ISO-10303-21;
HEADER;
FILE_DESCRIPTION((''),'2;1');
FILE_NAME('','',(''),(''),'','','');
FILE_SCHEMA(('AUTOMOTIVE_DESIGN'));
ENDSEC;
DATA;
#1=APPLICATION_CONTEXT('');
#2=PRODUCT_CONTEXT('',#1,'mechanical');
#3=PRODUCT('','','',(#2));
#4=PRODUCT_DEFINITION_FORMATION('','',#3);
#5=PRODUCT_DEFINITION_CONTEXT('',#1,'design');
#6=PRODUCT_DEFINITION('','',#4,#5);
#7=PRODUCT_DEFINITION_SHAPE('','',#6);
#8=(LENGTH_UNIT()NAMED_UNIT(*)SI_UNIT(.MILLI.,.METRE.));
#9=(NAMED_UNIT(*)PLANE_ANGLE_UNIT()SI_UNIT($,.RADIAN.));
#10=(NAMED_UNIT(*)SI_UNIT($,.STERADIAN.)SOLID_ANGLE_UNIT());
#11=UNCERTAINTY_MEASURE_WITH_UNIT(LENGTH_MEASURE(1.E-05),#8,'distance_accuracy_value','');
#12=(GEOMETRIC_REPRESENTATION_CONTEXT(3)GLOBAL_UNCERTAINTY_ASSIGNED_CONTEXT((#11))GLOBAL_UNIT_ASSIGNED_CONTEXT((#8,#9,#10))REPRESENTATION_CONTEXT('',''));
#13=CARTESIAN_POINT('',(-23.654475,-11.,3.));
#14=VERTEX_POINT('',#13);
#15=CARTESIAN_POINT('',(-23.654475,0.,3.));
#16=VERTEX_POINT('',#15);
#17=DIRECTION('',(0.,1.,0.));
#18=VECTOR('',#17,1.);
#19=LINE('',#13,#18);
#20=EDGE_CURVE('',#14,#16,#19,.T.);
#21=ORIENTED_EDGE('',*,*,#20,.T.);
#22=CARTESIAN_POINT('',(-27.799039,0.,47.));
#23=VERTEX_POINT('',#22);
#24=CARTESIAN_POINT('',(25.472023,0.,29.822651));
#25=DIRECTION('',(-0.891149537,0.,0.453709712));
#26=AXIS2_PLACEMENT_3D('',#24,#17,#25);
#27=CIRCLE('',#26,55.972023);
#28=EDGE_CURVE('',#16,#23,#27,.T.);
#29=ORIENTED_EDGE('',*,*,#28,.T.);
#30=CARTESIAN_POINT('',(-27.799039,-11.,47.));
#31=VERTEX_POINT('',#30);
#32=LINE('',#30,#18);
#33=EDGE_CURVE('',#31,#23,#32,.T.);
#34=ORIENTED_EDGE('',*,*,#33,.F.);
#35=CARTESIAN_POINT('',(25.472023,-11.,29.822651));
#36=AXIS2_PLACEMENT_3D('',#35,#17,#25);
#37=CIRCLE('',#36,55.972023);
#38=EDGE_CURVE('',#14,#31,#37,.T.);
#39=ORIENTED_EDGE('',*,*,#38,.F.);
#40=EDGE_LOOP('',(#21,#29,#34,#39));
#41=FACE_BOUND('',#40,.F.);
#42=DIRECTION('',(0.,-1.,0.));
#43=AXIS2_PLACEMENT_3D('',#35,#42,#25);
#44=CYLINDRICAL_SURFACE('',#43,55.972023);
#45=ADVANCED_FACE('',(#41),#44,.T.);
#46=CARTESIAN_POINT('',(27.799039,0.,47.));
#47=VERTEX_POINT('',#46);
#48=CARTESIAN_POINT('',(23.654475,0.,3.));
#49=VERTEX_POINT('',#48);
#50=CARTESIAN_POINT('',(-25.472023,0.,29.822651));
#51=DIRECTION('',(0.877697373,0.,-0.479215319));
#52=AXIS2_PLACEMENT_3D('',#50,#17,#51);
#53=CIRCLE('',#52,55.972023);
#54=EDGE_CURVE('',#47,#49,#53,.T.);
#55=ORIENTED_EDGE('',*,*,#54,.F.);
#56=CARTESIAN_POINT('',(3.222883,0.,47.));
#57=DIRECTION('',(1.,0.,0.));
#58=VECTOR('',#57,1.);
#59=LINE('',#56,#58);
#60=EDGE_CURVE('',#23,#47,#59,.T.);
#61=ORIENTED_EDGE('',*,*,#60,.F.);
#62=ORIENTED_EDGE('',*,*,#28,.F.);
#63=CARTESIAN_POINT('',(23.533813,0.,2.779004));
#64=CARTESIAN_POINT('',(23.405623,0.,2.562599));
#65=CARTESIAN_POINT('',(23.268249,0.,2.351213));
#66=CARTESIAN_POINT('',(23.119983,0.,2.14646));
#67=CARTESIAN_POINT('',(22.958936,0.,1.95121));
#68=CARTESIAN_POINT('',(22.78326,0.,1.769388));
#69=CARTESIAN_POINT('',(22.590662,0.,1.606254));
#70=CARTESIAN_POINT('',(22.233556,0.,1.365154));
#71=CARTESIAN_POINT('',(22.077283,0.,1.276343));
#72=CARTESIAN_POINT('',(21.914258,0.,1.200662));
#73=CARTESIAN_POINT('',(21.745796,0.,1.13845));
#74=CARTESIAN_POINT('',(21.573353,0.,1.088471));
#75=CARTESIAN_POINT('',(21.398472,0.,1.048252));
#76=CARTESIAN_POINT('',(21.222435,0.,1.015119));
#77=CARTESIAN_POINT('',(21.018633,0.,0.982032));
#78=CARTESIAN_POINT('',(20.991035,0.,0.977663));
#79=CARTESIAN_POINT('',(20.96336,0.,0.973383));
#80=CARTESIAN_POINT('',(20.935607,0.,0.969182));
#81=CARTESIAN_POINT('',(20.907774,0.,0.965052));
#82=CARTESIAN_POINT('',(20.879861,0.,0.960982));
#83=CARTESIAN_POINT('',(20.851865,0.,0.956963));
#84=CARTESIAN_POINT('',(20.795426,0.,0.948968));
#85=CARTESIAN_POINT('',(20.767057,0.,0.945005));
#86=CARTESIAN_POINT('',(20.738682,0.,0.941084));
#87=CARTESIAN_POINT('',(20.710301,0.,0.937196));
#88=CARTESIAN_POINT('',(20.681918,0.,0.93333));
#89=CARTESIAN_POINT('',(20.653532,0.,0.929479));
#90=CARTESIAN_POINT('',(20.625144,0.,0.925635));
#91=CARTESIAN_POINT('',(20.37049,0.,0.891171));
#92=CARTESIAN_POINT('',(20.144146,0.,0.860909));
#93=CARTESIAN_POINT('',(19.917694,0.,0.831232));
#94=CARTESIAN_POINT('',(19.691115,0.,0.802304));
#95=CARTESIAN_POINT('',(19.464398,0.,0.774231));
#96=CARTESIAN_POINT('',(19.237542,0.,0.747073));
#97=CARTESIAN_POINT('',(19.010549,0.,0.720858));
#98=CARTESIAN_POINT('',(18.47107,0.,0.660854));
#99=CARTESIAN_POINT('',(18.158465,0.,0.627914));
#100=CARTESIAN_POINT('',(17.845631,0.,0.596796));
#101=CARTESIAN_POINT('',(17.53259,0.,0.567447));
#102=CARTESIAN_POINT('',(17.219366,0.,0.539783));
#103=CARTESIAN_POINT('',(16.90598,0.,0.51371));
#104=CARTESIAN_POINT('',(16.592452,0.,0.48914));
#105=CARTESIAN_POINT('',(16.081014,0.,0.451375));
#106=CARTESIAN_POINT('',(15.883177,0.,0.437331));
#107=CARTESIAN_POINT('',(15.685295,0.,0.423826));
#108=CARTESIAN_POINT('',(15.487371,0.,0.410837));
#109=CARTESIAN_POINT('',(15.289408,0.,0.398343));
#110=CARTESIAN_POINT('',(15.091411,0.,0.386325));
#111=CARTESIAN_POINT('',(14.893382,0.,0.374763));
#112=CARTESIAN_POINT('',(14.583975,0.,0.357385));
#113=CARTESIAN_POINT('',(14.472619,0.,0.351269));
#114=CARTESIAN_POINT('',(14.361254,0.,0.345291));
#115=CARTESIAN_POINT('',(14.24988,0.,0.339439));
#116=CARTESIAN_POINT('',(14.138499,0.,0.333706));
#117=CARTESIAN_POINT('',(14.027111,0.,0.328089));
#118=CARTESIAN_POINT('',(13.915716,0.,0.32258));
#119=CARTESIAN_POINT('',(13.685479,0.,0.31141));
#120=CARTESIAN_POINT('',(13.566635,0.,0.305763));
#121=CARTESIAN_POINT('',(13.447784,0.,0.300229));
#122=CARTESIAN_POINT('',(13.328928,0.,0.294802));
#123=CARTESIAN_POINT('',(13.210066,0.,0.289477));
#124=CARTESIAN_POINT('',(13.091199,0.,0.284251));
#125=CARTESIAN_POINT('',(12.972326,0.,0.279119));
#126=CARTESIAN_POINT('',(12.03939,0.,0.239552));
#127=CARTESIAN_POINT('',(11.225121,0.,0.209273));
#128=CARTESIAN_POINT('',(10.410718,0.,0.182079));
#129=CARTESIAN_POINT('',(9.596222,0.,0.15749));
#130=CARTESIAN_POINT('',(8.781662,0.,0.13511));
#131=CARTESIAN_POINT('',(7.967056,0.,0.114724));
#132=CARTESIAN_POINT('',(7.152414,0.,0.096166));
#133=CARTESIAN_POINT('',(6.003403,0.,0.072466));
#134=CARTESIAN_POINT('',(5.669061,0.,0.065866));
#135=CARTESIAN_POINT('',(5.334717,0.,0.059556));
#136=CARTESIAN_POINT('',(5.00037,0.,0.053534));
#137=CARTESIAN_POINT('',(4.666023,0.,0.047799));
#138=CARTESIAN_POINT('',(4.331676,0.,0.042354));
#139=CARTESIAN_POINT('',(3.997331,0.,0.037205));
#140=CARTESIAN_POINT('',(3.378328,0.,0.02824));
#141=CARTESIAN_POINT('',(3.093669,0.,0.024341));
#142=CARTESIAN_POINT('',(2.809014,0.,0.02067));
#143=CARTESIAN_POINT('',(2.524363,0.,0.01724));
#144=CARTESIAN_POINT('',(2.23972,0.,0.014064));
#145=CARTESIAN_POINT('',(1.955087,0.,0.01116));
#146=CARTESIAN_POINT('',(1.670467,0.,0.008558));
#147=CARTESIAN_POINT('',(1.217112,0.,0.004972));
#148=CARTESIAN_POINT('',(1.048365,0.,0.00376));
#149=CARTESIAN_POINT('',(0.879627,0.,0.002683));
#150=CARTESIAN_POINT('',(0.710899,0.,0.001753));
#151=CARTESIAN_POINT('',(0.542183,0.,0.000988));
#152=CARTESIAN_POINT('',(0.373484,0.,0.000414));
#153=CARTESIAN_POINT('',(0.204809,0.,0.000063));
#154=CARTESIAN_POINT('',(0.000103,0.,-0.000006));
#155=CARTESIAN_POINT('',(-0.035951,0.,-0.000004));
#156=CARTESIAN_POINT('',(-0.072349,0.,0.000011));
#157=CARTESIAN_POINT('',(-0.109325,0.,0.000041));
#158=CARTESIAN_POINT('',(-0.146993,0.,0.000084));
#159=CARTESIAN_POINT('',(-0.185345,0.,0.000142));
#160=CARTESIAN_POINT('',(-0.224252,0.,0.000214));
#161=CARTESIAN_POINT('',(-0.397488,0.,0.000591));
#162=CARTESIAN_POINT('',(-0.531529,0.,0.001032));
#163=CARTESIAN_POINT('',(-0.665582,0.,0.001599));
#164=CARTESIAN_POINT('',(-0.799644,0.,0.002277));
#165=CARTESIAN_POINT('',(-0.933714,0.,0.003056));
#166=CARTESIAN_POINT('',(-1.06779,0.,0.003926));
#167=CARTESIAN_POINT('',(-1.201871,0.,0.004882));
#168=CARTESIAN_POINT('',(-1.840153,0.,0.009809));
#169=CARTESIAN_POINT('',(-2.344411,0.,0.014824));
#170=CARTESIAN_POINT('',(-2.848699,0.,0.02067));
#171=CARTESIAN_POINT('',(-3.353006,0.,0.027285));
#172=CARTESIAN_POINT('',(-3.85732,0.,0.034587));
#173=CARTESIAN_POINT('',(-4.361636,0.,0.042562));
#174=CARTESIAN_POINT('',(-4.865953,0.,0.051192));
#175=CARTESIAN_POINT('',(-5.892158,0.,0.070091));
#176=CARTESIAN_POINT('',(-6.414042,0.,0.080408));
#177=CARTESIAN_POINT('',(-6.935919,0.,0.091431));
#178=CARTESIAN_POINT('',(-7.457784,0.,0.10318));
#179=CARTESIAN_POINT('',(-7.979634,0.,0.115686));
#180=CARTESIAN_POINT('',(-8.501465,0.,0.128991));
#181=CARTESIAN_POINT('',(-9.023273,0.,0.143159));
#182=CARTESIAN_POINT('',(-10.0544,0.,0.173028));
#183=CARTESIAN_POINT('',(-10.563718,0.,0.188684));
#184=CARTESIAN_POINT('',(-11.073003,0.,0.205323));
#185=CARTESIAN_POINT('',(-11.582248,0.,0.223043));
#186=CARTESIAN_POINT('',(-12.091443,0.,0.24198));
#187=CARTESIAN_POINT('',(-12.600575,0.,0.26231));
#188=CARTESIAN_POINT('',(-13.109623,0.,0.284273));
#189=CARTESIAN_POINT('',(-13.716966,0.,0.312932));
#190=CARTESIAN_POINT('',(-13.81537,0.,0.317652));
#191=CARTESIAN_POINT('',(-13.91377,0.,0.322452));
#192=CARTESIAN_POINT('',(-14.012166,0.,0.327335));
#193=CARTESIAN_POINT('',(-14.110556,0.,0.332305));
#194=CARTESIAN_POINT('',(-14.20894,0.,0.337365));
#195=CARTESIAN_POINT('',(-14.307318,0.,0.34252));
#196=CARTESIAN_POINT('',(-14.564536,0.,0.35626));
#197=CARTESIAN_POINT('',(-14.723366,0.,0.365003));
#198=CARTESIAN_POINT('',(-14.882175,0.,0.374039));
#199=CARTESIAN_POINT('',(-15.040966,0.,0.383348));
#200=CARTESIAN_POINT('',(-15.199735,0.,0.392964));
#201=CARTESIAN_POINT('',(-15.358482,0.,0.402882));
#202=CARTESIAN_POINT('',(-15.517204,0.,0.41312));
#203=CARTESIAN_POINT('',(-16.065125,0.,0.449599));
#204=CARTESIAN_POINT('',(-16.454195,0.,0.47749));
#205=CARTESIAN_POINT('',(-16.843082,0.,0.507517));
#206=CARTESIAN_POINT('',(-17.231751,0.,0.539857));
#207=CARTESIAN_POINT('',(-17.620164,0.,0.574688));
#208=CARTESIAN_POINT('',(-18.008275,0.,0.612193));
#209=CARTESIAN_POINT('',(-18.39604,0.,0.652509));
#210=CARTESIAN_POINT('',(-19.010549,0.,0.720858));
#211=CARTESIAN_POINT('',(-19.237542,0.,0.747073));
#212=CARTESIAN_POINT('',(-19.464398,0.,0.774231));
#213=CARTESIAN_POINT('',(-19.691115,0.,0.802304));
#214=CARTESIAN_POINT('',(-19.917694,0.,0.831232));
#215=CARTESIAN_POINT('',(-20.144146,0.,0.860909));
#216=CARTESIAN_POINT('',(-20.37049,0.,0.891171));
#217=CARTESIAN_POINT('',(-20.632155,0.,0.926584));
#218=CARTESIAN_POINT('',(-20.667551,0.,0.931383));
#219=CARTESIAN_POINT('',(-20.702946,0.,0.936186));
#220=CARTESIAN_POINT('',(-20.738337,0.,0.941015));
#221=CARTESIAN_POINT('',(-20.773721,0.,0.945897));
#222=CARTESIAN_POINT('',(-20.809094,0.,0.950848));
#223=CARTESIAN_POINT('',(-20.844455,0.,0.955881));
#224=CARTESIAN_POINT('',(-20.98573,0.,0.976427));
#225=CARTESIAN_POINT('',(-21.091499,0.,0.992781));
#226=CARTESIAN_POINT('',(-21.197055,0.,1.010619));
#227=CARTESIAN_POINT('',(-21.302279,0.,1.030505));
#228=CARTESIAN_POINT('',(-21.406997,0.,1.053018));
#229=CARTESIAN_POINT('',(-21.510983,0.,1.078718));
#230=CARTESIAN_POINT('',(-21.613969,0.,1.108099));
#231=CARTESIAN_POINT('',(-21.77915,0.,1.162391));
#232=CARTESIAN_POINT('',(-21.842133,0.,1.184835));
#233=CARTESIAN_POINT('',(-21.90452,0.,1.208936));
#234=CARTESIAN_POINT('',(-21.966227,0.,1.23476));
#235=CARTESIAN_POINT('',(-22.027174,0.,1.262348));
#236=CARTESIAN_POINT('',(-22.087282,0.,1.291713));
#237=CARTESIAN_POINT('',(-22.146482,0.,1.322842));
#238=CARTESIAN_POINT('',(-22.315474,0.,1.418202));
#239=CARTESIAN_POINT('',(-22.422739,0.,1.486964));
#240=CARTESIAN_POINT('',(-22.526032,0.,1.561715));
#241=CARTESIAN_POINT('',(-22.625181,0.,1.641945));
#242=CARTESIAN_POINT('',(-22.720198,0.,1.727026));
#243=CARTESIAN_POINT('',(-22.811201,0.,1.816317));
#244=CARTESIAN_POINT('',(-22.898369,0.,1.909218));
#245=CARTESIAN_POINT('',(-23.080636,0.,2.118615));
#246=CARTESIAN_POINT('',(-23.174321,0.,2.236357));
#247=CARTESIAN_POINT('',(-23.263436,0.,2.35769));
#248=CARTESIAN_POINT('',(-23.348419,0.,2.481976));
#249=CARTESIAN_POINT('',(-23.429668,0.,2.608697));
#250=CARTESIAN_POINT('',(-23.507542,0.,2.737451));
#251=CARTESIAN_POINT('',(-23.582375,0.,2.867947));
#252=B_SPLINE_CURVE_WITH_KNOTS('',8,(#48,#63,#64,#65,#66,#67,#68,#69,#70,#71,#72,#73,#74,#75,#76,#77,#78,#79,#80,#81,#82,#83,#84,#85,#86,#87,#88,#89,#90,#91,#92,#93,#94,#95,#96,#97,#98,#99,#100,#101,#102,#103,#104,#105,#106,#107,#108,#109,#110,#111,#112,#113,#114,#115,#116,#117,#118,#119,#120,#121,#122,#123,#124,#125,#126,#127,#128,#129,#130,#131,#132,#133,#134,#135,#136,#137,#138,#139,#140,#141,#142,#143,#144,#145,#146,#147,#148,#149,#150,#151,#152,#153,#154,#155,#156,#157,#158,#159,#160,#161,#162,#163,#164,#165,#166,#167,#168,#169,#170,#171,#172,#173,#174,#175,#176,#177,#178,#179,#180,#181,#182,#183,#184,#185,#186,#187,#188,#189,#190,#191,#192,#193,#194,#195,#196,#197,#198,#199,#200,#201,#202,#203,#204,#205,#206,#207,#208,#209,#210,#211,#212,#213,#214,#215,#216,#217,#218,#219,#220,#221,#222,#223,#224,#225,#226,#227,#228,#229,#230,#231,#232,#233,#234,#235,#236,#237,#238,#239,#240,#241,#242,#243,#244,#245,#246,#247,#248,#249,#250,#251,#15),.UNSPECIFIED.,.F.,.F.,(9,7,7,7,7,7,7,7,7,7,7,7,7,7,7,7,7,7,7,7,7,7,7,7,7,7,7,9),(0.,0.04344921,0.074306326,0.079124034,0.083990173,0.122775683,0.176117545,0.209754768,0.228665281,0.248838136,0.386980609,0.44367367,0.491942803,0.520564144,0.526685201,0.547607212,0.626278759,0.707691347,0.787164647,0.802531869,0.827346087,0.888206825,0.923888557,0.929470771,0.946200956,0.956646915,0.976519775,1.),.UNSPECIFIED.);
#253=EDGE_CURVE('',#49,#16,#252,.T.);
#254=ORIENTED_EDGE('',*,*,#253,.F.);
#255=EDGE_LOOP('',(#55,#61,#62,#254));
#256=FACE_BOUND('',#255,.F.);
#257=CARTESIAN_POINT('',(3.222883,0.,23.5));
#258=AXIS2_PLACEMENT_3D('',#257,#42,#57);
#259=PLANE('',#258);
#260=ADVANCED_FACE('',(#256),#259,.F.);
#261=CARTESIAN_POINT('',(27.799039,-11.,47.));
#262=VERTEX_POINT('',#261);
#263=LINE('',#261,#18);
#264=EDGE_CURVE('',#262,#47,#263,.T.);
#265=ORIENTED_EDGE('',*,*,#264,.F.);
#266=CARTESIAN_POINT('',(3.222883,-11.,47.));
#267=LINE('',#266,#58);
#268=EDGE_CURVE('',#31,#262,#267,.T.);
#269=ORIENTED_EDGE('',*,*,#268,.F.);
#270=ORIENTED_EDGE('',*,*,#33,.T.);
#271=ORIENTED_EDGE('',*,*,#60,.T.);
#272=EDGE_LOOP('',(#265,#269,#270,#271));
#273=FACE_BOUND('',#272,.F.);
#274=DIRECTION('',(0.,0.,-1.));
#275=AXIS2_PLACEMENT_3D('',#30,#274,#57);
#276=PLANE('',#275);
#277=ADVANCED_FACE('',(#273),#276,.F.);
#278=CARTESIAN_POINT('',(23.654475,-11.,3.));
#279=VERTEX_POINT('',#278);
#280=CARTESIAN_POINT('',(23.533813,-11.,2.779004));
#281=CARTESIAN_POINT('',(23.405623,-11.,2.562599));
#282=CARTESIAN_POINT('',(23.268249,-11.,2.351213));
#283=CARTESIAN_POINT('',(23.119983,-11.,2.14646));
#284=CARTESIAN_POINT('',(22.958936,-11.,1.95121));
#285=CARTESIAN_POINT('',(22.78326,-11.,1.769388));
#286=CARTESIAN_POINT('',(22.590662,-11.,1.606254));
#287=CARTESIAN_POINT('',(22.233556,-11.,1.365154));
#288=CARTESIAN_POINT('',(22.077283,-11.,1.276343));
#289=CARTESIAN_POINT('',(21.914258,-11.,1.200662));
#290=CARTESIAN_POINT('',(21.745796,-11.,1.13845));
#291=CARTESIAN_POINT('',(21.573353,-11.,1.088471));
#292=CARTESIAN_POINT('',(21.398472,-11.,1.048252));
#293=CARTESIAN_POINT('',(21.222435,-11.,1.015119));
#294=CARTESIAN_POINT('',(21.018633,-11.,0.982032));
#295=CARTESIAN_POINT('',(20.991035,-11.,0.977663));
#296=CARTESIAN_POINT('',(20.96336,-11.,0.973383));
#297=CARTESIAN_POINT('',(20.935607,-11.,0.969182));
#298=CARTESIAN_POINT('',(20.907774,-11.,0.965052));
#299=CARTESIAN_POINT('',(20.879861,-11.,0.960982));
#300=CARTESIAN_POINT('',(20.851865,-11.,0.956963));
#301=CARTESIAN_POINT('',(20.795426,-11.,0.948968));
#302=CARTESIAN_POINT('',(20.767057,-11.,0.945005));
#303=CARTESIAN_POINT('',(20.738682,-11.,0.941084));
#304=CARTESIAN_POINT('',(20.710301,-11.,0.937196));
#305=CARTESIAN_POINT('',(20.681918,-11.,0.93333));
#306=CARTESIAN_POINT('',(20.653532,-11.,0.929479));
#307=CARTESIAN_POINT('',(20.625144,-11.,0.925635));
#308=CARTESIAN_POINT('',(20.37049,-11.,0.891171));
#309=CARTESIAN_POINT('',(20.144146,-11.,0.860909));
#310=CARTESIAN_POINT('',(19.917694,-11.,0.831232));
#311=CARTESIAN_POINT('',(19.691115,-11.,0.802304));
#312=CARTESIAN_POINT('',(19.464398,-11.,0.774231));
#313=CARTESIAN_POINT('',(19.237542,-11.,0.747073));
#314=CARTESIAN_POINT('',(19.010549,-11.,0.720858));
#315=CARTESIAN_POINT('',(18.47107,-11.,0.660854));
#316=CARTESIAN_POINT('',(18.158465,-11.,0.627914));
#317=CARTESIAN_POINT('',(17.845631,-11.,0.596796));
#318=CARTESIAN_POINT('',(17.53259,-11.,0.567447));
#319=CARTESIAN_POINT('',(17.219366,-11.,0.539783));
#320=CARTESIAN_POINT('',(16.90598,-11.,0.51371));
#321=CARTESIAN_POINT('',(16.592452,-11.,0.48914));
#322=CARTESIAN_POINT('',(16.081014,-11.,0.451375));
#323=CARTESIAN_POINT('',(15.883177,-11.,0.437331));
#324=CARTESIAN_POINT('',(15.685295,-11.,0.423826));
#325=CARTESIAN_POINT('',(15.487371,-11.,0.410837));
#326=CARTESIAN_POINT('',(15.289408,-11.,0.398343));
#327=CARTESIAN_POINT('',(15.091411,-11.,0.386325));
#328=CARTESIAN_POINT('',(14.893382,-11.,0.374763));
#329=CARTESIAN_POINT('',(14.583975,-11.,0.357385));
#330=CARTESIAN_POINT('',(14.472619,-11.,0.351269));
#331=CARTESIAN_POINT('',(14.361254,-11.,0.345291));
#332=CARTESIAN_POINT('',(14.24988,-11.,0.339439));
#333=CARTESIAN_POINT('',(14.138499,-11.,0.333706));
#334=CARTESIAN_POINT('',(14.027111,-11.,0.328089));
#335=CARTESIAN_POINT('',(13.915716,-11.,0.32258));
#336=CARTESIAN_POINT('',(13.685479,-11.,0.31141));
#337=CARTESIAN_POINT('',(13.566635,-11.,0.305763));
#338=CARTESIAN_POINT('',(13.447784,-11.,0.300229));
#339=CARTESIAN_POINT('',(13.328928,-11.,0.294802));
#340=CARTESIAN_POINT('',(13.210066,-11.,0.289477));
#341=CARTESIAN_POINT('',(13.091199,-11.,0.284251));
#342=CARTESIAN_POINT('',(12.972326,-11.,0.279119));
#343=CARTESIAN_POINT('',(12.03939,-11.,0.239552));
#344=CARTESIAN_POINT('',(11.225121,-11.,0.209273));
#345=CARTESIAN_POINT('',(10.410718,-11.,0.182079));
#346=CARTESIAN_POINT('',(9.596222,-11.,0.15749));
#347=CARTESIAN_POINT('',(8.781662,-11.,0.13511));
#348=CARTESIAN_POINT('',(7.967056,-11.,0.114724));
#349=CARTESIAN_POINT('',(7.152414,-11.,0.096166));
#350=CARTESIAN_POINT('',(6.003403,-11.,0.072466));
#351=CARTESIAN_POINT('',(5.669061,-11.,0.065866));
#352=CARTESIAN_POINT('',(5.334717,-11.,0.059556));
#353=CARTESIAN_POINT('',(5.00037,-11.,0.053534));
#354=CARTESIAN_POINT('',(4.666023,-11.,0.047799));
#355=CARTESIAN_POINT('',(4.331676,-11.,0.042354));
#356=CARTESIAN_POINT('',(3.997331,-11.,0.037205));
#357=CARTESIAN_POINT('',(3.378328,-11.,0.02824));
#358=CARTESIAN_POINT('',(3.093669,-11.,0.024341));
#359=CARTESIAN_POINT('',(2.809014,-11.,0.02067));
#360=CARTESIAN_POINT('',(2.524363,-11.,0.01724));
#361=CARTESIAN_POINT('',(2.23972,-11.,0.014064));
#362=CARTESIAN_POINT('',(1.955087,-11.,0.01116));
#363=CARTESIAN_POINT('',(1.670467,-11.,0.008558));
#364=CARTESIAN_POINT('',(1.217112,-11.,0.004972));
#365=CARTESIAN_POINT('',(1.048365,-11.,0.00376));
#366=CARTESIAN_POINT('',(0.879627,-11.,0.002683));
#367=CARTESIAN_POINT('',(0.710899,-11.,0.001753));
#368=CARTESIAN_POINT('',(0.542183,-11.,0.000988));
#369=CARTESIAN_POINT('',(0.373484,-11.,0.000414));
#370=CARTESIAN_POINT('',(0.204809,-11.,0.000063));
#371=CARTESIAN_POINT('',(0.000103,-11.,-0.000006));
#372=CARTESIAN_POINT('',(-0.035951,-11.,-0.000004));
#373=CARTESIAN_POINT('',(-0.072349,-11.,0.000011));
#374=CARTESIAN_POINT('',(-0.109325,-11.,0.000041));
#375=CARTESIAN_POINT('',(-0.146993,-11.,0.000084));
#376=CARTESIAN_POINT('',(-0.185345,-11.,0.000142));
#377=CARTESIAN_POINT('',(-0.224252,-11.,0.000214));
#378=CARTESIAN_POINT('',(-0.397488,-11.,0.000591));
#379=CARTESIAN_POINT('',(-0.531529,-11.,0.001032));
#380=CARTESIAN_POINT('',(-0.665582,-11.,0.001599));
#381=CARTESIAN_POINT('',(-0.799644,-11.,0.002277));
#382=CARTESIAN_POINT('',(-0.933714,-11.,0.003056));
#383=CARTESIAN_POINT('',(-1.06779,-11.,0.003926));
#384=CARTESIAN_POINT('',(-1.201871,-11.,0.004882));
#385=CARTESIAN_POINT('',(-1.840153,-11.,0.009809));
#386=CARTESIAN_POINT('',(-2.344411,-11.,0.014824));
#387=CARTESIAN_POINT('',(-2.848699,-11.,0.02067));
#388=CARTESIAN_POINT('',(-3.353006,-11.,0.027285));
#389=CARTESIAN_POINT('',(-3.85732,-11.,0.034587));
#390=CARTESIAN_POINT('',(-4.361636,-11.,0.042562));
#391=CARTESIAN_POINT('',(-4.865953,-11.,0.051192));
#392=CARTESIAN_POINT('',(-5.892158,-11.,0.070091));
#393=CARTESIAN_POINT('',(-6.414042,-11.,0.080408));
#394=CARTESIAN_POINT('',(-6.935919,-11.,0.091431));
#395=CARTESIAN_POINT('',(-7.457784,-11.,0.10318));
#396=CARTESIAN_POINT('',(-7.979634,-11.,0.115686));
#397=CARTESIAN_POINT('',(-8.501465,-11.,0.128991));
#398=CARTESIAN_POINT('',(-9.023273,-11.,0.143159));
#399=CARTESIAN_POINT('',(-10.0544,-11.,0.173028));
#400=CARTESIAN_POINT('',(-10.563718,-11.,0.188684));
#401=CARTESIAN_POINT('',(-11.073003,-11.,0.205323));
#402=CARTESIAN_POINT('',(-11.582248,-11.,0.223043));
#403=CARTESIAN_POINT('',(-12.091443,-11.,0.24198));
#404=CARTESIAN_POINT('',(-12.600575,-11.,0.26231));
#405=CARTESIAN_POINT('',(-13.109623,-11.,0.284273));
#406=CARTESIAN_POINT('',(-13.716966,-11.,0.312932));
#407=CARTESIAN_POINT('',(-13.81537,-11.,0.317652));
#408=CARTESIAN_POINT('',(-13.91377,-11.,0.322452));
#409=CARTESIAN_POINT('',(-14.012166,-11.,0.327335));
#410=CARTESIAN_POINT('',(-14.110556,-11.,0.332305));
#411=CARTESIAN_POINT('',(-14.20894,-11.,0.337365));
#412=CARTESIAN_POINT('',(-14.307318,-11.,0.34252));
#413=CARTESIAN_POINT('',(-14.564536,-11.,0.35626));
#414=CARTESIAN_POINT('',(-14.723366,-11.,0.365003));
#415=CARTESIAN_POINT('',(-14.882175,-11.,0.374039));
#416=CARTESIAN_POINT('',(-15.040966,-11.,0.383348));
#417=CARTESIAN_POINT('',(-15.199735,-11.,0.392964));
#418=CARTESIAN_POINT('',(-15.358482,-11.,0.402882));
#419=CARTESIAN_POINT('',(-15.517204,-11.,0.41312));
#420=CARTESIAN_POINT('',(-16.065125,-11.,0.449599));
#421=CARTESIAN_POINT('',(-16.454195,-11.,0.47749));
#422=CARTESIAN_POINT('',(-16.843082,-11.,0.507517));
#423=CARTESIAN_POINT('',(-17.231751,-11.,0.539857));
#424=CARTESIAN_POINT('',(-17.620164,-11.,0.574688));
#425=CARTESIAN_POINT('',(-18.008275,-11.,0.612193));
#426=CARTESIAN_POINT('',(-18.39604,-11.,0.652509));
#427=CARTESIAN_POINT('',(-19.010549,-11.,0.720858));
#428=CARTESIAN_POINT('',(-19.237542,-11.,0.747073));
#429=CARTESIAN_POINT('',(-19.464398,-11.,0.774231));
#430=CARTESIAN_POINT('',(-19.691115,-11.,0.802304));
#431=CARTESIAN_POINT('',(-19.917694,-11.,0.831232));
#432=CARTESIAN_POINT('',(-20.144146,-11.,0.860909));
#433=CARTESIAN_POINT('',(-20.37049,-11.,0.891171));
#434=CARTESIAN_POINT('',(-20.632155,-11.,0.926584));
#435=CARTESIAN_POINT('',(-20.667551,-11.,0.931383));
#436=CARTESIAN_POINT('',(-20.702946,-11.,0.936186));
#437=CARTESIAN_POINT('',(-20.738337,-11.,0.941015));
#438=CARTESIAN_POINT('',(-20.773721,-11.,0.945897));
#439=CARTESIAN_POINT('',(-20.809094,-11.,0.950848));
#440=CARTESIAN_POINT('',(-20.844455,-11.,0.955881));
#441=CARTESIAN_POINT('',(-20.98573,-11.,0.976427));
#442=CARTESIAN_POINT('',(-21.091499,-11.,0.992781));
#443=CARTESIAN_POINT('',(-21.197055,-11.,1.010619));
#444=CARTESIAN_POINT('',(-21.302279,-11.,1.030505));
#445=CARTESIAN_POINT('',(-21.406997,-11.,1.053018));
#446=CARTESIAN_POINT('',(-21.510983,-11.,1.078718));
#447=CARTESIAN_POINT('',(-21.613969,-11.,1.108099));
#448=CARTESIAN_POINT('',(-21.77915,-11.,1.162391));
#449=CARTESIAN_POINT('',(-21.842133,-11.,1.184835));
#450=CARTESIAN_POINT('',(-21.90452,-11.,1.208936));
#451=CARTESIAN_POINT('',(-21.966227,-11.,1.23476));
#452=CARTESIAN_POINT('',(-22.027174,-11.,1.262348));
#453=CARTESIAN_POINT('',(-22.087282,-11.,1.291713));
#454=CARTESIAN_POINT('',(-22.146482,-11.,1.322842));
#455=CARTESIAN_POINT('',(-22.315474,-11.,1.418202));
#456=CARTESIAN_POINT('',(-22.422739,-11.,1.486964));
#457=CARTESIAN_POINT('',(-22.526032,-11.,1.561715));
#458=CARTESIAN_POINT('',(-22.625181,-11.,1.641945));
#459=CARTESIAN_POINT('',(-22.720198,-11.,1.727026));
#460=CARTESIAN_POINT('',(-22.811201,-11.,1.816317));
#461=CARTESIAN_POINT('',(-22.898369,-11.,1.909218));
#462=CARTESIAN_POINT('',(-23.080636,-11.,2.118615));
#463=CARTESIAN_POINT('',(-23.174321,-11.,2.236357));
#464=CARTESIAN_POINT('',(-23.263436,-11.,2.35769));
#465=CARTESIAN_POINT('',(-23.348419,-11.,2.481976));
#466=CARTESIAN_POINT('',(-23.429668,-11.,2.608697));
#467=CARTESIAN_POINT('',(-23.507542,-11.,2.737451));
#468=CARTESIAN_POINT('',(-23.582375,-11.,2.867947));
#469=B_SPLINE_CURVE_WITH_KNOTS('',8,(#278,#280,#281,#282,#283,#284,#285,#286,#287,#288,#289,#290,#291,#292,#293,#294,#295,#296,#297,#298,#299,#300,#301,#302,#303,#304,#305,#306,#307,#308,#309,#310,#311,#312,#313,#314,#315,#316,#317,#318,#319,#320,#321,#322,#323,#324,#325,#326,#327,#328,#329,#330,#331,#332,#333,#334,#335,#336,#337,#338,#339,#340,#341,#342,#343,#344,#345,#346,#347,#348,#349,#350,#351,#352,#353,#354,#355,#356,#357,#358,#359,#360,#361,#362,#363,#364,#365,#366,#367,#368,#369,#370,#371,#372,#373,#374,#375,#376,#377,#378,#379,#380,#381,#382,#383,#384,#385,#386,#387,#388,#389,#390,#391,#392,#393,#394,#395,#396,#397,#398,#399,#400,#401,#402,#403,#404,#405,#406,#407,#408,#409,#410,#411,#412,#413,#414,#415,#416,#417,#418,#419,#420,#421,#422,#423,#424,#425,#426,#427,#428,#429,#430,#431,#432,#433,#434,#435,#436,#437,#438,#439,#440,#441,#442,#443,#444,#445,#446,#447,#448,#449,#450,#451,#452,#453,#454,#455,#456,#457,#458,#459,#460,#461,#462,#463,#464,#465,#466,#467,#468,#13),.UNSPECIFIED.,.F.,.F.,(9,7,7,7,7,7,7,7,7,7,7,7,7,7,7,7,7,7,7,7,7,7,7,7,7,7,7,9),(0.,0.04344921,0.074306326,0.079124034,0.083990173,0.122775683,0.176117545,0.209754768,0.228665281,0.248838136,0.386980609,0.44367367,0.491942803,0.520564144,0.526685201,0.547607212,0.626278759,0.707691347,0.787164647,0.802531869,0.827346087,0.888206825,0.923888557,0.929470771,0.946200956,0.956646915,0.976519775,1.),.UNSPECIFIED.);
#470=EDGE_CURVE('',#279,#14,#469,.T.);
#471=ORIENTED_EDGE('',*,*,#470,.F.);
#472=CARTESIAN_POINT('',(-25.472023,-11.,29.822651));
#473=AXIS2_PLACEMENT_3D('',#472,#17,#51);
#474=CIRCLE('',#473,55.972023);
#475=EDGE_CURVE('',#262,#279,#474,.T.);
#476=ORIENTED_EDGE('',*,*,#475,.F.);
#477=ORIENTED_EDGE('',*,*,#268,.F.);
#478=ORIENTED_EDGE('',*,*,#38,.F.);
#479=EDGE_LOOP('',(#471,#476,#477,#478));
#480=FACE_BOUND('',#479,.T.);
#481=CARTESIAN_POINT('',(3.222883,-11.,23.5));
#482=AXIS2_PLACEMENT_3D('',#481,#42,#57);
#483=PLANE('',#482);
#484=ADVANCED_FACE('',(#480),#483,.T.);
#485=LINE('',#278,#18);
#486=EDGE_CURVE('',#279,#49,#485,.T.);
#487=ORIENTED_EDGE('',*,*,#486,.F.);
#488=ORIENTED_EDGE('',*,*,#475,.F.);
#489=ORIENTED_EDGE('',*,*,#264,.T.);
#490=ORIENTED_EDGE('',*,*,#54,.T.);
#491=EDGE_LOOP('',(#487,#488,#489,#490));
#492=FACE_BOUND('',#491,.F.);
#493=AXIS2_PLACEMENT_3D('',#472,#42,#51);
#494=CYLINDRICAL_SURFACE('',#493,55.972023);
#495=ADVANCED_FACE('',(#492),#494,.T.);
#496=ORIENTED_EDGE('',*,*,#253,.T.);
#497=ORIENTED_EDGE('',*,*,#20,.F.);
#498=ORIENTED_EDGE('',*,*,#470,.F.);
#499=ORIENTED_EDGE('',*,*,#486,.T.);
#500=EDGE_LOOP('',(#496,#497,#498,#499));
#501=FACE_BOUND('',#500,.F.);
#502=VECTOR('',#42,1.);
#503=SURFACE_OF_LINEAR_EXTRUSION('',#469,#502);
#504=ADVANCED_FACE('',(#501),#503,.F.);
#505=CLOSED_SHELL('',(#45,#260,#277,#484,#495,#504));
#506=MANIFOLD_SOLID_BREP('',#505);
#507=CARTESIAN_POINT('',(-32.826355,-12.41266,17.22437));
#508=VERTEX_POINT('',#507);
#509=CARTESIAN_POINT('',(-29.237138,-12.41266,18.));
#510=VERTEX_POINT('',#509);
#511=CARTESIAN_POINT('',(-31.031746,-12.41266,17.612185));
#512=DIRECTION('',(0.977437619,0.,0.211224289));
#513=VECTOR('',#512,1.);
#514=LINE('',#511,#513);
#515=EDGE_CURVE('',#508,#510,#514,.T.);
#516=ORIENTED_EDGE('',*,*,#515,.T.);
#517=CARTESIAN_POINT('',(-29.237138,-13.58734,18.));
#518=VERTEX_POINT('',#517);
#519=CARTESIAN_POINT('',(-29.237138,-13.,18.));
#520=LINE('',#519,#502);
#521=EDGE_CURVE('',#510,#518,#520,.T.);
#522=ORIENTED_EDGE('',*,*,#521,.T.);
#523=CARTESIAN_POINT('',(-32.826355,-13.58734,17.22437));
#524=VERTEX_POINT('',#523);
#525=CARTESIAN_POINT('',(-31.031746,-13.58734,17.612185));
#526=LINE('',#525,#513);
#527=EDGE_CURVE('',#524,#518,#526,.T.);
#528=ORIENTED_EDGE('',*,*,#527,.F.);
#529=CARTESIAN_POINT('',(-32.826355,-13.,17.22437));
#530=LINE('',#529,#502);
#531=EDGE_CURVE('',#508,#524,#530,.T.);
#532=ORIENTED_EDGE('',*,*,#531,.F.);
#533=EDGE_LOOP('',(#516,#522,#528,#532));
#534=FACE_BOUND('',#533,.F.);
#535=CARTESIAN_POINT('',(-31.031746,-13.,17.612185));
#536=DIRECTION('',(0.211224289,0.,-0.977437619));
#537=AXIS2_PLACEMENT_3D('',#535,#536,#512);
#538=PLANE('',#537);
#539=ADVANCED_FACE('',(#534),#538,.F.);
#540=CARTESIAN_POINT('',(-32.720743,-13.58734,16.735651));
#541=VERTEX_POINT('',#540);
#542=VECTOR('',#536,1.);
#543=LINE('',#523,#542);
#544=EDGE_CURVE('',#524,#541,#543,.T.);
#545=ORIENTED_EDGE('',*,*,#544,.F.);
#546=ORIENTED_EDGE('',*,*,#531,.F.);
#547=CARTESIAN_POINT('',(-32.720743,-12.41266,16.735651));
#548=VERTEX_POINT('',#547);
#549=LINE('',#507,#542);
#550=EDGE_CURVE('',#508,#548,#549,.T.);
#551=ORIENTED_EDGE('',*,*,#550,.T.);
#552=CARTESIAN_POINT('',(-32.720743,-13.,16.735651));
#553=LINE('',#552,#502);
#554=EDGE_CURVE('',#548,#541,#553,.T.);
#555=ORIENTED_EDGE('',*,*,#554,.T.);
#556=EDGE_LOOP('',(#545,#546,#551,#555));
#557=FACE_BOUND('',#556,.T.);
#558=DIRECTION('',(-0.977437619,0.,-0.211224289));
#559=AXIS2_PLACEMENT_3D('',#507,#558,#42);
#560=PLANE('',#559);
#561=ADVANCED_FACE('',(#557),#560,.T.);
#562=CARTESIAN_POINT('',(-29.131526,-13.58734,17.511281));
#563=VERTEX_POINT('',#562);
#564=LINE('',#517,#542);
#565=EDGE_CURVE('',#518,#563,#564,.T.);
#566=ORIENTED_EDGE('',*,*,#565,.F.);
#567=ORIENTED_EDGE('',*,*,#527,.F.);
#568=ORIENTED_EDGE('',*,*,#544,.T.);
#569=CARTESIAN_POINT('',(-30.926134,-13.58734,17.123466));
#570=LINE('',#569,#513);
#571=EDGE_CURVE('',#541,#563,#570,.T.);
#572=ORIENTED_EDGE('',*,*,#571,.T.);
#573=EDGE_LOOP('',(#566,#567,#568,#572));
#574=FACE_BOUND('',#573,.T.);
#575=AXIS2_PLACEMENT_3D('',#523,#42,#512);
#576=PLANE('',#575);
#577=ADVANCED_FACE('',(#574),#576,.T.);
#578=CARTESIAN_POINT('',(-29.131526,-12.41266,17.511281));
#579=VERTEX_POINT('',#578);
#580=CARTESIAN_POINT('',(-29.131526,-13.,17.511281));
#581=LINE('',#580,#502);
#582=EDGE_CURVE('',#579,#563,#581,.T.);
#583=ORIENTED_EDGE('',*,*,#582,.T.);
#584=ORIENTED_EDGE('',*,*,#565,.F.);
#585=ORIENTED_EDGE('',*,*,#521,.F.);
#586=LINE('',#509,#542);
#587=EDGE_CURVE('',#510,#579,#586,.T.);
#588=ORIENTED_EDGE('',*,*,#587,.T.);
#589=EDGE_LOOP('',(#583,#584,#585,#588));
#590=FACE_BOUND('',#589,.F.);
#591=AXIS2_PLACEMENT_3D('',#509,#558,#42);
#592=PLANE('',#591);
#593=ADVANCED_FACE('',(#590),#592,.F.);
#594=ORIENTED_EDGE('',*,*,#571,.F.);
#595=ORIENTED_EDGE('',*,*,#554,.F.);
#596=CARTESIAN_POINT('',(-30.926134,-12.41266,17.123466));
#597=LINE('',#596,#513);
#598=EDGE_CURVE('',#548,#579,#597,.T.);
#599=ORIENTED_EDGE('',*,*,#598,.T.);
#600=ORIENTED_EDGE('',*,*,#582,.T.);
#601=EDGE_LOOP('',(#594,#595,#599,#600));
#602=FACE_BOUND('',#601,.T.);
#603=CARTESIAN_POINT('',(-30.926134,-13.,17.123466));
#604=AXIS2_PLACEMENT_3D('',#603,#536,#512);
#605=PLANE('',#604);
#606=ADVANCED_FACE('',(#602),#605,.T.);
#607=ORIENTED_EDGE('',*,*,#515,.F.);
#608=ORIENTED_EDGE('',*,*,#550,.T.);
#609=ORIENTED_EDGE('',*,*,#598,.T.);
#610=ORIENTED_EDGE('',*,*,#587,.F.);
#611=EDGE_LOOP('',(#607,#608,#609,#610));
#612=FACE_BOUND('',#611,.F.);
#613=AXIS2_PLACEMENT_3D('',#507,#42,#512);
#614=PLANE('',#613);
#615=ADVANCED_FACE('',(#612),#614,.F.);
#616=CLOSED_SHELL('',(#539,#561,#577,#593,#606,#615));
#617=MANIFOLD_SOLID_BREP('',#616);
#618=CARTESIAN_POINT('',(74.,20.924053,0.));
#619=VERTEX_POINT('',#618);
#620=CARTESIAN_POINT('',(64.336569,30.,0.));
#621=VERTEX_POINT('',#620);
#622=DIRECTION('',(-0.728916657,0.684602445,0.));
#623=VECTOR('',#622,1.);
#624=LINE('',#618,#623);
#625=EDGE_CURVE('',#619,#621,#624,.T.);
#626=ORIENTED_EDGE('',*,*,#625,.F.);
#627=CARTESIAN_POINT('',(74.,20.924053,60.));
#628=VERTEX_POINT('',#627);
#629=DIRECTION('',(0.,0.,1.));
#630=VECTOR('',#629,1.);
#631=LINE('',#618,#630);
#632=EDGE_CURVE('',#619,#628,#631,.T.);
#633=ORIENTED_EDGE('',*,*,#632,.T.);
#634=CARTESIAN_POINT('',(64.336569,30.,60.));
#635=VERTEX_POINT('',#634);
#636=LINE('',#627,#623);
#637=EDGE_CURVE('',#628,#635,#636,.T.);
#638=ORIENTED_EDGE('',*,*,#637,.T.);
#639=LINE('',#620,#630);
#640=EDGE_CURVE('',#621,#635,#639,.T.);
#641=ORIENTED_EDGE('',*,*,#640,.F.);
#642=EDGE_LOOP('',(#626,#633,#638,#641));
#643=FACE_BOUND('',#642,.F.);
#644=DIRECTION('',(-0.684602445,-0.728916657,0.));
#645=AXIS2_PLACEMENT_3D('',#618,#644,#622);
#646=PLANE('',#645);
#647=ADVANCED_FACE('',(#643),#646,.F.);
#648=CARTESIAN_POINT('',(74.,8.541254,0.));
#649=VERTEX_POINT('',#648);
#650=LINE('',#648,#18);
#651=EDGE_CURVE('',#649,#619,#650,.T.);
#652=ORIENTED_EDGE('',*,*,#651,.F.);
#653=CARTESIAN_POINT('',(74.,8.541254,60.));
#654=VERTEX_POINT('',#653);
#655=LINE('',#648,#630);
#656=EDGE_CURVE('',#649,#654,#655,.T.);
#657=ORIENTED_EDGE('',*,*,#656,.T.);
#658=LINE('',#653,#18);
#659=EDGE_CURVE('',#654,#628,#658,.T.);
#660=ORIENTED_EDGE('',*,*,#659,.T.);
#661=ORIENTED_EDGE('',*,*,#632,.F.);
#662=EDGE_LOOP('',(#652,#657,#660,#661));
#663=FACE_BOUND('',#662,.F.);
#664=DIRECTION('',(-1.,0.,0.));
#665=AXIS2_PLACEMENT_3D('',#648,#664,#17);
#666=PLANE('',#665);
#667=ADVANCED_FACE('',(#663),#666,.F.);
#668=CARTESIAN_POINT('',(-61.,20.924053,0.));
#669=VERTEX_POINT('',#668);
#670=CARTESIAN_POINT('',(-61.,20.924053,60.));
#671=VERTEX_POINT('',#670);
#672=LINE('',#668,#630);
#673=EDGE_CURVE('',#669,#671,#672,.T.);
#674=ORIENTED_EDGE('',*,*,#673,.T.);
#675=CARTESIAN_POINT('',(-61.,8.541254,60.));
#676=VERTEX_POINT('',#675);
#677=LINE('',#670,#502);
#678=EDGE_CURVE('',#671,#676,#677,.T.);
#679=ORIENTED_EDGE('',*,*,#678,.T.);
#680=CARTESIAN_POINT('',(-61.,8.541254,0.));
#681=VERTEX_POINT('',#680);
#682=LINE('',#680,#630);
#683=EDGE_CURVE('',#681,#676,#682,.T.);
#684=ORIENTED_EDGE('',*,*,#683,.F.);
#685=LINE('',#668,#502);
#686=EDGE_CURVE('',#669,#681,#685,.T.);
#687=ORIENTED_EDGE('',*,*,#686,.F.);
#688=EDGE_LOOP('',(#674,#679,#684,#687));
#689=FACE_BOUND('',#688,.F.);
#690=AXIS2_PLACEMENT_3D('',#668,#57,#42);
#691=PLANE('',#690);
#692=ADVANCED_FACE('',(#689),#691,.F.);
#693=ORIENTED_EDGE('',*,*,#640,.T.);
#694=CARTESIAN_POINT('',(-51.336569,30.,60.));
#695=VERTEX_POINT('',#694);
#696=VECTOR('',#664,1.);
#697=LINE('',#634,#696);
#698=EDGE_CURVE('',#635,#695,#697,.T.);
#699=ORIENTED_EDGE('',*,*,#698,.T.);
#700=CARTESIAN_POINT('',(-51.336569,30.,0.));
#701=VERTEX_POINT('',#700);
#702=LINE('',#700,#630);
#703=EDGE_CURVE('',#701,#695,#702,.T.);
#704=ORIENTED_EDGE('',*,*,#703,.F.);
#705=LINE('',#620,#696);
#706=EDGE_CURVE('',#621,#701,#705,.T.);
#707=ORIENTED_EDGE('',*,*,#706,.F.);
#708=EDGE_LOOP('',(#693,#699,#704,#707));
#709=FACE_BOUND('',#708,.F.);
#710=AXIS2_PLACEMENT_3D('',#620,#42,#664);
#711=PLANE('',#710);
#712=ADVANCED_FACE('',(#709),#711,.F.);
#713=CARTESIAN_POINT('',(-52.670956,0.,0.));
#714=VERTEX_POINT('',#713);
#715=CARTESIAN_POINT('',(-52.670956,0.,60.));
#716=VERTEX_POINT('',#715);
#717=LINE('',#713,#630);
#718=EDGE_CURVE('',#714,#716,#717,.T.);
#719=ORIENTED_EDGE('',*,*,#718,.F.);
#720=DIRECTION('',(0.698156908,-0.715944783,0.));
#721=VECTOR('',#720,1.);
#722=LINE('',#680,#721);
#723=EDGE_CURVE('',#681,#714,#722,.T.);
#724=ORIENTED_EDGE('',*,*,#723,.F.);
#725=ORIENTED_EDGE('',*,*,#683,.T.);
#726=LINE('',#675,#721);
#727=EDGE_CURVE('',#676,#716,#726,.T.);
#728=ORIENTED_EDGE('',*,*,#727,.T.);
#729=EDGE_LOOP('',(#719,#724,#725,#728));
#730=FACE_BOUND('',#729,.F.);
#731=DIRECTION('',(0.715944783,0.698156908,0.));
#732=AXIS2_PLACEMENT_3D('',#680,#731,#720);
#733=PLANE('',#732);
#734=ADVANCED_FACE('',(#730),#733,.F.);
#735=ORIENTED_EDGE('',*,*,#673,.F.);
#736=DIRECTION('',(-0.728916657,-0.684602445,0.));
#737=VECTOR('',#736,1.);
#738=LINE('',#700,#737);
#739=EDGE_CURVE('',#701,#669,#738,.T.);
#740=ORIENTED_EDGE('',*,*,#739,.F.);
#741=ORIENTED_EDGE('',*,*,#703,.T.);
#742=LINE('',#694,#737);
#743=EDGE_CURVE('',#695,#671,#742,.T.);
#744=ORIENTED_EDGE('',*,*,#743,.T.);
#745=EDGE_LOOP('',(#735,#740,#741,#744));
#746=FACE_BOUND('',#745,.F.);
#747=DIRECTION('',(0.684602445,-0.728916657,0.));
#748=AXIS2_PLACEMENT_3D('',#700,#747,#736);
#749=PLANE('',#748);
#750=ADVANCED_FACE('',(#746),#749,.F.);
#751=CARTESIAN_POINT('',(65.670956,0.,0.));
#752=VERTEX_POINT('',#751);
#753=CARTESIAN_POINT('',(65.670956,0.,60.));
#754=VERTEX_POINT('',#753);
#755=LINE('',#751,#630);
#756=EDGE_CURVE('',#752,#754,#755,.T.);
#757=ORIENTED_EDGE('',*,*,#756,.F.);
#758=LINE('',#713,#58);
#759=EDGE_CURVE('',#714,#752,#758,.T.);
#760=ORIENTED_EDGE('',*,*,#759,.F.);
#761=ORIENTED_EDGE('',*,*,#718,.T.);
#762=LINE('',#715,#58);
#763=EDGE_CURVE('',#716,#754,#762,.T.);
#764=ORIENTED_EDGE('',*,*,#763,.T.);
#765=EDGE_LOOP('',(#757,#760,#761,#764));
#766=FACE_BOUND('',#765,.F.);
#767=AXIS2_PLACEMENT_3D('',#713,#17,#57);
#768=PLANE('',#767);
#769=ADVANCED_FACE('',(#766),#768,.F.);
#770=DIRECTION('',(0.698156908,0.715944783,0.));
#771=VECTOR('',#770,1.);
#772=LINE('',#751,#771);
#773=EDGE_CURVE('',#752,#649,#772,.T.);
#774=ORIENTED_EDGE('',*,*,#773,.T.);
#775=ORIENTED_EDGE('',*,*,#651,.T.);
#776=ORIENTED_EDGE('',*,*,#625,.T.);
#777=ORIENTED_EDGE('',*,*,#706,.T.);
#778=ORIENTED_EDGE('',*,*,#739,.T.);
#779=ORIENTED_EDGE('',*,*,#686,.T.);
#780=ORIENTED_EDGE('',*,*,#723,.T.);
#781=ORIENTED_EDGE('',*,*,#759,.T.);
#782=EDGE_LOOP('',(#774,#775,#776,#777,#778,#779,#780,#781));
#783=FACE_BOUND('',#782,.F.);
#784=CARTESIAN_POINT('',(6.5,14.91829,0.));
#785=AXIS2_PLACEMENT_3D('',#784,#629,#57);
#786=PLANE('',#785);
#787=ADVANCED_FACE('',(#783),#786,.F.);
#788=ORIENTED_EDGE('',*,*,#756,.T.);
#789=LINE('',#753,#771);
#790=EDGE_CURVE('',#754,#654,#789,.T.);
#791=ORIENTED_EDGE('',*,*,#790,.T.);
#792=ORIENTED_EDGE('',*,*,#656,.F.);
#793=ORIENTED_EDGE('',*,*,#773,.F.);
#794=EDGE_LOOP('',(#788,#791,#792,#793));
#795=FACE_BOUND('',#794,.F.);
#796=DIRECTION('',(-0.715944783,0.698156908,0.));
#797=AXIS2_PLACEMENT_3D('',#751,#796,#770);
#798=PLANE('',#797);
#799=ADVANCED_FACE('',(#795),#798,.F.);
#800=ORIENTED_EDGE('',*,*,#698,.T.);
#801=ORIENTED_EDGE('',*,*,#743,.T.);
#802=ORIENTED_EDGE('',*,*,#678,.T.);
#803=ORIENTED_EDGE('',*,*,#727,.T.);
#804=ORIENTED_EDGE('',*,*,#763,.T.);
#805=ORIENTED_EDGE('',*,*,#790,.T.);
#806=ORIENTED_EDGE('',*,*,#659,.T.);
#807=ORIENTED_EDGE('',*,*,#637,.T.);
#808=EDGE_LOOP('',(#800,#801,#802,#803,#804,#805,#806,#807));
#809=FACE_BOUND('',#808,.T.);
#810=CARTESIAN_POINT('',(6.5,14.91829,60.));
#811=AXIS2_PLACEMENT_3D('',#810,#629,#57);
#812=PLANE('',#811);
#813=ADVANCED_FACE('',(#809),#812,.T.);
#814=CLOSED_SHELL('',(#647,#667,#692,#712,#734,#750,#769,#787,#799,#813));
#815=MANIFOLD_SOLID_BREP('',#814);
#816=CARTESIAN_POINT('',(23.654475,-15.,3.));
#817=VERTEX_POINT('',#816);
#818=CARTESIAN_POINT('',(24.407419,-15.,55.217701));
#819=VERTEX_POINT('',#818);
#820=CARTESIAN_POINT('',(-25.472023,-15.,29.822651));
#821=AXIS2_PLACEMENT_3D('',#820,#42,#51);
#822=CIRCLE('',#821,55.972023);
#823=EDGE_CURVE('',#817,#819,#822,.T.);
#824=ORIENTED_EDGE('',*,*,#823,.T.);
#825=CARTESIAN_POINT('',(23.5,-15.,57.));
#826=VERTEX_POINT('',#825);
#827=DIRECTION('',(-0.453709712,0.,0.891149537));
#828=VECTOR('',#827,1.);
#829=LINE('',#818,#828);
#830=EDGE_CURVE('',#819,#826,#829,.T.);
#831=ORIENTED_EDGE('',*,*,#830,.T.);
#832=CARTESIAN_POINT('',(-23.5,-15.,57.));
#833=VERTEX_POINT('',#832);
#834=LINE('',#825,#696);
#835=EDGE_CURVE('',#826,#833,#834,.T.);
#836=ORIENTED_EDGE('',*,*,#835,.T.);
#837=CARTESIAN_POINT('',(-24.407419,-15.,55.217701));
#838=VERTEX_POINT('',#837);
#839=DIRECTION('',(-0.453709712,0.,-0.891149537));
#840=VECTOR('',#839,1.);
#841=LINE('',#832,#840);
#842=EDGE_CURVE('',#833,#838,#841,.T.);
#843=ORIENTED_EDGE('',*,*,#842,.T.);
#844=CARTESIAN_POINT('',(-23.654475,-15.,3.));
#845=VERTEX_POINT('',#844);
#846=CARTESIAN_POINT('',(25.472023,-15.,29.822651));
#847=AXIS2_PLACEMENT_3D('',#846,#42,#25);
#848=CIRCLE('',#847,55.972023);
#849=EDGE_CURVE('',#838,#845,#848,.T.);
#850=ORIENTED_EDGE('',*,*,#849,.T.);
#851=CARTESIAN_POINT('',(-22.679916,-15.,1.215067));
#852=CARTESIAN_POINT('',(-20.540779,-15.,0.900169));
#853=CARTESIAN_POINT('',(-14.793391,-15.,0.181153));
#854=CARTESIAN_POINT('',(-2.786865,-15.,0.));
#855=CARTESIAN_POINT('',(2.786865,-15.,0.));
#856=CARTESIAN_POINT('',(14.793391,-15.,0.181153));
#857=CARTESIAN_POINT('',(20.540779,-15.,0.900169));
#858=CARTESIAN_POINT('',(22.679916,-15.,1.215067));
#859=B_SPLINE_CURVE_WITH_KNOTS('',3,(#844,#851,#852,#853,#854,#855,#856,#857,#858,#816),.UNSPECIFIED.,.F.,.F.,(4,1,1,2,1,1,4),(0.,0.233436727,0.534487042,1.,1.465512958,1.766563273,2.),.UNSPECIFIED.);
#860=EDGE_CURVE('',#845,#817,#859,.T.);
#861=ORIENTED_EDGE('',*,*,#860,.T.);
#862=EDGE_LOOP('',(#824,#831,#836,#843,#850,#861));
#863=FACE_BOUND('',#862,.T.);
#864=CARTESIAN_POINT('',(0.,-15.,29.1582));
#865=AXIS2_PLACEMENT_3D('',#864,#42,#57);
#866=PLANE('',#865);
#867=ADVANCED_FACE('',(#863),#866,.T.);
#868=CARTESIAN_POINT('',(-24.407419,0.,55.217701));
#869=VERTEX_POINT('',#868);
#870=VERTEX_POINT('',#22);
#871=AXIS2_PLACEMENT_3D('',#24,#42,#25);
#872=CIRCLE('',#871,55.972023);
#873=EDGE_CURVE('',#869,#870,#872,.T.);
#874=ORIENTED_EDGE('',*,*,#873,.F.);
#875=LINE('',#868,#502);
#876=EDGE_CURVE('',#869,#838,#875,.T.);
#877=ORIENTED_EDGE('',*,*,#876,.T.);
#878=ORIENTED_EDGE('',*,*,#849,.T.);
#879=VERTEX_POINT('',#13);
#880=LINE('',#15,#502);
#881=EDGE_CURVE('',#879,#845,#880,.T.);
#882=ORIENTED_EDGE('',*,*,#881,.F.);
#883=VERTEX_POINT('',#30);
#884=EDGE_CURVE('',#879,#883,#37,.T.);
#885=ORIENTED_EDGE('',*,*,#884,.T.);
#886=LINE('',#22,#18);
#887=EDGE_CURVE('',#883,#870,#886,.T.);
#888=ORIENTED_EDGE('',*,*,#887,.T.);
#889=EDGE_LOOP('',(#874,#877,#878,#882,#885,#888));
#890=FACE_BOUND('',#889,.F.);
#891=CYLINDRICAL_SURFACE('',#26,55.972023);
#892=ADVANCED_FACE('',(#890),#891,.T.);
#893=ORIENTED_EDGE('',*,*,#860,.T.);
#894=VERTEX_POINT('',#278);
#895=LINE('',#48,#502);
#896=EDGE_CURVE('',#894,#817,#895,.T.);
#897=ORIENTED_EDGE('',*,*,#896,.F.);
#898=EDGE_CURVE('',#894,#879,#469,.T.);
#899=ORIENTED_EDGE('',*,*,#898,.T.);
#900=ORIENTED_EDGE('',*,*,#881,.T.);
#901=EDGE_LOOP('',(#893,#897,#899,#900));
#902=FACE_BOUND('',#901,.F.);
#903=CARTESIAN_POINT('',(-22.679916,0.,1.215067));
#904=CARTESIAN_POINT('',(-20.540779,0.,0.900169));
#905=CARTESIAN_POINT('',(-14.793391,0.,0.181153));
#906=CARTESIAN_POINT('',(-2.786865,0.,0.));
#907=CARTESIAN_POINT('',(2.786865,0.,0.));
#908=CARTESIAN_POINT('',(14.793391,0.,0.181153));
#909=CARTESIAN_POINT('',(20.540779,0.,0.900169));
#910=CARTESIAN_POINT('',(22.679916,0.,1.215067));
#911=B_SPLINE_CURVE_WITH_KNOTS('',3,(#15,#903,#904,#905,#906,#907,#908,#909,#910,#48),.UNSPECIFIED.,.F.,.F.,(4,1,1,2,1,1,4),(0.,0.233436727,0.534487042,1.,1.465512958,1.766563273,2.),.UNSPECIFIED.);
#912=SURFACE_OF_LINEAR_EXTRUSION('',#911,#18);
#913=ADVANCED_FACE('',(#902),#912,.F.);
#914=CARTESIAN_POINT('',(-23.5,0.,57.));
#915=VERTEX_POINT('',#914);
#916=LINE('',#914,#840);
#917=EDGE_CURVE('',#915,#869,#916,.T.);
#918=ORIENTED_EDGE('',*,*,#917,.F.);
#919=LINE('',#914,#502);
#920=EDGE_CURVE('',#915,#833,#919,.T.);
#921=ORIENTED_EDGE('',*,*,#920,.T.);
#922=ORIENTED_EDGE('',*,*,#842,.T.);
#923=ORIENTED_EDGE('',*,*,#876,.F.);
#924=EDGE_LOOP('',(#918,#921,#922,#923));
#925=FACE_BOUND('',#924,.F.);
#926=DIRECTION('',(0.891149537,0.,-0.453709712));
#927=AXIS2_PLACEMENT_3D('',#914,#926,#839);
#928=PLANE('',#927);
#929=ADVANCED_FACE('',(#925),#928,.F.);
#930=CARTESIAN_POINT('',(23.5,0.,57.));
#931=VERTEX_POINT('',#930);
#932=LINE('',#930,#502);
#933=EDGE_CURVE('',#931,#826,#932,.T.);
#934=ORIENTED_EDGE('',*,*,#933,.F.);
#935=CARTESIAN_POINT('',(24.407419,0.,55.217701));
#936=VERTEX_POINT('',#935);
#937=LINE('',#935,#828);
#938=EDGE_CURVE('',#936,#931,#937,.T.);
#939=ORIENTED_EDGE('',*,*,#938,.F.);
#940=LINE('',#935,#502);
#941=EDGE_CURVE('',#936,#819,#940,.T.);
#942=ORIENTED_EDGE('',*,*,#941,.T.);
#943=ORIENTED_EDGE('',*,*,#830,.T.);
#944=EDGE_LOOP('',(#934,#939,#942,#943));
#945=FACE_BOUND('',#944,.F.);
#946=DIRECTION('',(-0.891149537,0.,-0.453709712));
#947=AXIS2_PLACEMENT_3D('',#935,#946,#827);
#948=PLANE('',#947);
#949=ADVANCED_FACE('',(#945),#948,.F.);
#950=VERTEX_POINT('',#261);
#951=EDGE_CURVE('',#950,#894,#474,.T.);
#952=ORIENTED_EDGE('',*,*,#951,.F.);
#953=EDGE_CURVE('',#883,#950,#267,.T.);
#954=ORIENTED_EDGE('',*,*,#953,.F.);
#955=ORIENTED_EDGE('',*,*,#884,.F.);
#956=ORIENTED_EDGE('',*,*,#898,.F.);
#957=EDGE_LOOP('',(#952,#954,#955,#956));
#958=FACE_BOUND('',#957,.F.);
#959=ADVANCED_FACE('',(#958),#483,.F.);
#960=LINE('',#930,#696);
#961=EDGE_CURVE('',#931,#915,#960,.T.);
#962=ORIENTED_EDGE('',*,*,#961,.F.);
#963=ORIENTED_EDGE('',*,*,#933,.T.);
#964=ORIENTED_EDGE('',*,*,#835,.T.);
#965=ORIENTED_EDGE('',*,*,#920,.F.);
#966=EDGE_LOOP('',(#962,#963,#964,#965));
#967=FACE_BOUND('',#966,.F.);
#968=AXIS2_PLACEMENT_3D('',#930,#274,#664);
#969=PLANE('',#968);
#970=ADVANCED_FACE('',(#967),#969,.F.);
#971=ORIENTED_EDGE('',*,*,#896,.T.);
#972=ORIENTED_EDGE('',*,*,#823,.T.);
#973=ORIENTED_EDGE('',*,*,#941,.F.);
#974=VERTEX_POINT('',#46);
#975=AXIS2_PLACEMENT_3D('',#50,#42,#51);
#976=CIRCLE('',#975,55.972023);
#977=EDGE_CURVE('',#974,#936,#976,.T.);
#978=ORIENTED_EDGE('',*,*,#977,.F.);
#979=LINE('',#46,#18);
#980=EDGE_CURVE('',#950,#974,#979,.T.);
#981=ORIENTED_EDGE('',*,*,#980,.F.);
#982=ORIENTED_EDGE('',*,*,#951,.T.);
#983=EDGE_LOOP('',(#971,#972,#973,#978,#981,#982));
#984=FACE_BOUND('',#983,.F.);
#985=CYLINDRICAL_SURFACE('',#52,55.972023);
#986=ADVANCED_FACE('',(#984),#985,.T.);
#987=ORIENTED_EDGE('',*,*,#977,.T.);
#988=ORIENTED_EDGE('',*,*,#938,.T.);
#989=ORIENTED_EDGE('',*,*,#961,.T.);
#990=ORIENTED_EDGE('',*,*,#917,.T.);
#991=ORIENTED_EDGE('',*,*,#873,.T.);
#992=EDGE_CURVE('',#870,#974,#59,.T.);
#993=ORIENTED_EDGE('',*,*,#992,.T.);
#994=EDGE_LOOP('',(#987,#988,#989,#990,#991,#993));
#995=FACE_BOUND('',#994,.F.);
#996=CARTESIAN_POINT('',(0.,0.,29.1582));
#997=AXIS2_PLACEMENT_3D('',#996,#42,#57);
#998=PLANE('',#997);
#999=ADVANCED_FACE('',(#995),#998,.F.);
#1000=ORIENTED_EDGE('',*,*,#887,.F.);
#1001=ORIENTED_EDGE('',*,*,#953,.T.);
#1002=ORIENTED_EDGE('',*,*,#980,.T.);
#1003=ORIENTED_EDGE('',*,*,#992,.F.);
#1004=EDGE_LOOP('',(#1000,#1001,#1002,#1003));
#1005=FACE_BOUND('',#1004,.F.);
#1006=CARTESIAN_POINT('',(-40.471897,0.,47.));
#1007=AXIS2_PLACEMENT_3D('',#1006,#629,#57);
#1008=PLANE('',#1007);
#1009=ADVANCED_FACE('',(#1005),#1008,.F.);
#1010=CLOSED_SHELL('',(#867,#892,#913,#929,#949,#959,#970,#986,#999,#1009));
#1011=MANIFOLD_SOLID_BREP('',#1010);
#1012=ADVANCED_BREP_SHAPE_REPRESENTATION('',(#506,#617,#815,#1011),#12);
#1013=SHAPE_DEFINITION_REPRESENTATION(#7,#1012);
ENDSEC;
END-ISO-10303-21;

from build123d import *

# Parameters (mm, degrees)
F1_DEPTH  = 60
F3_DEPTH  = 15
F4_W      = 87.3895585537
F4_H      = 47
F5_DEPTH  = 11
F6_DEPTH  = 11
F9_W      = 3.6720675271
F9_H      = 1.174679026
F10_DEPTH = 0.5


with BuildPart() as f1:
    # F0 (on Top) → F1 (new body)
    with BuildSketch(Plane.XY):
        Polygon((-61, 8.5412541542), (-52.6709560065, 0), (65.6709560065, 0), (74, 8.5412541542), (74, 20.9240532046), (64.3365685589, 30), (-51.3365685589, 30), (-61, 20.9240532046), align=None)
    extrude(amount=F1_DEPTH)


with BuildPart() as f3:
    # F2 (on face) → F3 (new body)
    with BuildSketch(Plane.XZ):
        with BuildLine():
            Line((0, 57), (-23.5, 57))
            Line((-23.5, 57), (-24.407419424, 55.2177009261))
            ThreePointArc((-24.407419424, 55.2177009261), (-30.4941821284, 29.01565487), (-23.6544745741, 3))
            add(Edge.make_bspline(
                [(-23.6544745741, 3), (-22.6799163941, 1.2150671741), (-20.5407792126, 0.9001688261), (-14.7933912038, 0.1811527802), (-2.7868645717, 0), (0, 0)],
                knots=[0, 0, 0, 0, 0.2334367272, 0.5344870424, 1, 1, 1, 1], degree=3))
            add(Edge.make_bspline(
                [(23.6544745741, 3), (22.6799163941, 1.2150671741), (20.5407792126, 0.9001688261), (14.7933912038, 0.1811527802), (2.7868645717, 0), (0, 0)],
                knots=[0, 0, 0, 0, 0.2334367272, 0.5344870424, 1, 1, 1, 1], degree=3))
            ThreePointArc((23.6544745741, 3), (30.4941821284, 29.01565487), (24.407419424, 55.2177009261))
            Line((24.407419424, 55.2177009261), (23.5, 57))
            Line((23.5, 57), (0, 57))
        make_face()
    extrude(amount=F3_DEPTH)

    # F4 (on face) → F5 (cut)
    with BuildSketch(Plane.XZ):
        with Locations((3.2228827477, 23.5)):
            Rectangle(F4_W, F4_H)
    extrude(amount=F5_DEPTH, mode=Mode.SUBTRACT)


with BuildPart() as f6:
    # F6 (new): a face of the model
    f6_faces = [f3.part.faces().sort_by_distance(p)[0] for p in [
        (0, -11, 24.4159360274),
    ]]
    extrude(f6_faces, amount=F6_DEPTH)


with BuildPart() as f10:
    # F9 (on face) → F10 (new body)
    with BuildSketch(Plane(origin=(-5.0206895731, 0, 23.2331749697), x_dir=(0.9774376194, 0, 0.211224289), z_dir=(0.211224289, 0, -0.9774376194))):
        with Locations((-26.6114750484, 13)):
            Rectangle(F9_W, F9_H)
    extrude(amount=F10_DEPTH)


solid = Compound([f1.part, f3.part, f6.part, f10.part])
